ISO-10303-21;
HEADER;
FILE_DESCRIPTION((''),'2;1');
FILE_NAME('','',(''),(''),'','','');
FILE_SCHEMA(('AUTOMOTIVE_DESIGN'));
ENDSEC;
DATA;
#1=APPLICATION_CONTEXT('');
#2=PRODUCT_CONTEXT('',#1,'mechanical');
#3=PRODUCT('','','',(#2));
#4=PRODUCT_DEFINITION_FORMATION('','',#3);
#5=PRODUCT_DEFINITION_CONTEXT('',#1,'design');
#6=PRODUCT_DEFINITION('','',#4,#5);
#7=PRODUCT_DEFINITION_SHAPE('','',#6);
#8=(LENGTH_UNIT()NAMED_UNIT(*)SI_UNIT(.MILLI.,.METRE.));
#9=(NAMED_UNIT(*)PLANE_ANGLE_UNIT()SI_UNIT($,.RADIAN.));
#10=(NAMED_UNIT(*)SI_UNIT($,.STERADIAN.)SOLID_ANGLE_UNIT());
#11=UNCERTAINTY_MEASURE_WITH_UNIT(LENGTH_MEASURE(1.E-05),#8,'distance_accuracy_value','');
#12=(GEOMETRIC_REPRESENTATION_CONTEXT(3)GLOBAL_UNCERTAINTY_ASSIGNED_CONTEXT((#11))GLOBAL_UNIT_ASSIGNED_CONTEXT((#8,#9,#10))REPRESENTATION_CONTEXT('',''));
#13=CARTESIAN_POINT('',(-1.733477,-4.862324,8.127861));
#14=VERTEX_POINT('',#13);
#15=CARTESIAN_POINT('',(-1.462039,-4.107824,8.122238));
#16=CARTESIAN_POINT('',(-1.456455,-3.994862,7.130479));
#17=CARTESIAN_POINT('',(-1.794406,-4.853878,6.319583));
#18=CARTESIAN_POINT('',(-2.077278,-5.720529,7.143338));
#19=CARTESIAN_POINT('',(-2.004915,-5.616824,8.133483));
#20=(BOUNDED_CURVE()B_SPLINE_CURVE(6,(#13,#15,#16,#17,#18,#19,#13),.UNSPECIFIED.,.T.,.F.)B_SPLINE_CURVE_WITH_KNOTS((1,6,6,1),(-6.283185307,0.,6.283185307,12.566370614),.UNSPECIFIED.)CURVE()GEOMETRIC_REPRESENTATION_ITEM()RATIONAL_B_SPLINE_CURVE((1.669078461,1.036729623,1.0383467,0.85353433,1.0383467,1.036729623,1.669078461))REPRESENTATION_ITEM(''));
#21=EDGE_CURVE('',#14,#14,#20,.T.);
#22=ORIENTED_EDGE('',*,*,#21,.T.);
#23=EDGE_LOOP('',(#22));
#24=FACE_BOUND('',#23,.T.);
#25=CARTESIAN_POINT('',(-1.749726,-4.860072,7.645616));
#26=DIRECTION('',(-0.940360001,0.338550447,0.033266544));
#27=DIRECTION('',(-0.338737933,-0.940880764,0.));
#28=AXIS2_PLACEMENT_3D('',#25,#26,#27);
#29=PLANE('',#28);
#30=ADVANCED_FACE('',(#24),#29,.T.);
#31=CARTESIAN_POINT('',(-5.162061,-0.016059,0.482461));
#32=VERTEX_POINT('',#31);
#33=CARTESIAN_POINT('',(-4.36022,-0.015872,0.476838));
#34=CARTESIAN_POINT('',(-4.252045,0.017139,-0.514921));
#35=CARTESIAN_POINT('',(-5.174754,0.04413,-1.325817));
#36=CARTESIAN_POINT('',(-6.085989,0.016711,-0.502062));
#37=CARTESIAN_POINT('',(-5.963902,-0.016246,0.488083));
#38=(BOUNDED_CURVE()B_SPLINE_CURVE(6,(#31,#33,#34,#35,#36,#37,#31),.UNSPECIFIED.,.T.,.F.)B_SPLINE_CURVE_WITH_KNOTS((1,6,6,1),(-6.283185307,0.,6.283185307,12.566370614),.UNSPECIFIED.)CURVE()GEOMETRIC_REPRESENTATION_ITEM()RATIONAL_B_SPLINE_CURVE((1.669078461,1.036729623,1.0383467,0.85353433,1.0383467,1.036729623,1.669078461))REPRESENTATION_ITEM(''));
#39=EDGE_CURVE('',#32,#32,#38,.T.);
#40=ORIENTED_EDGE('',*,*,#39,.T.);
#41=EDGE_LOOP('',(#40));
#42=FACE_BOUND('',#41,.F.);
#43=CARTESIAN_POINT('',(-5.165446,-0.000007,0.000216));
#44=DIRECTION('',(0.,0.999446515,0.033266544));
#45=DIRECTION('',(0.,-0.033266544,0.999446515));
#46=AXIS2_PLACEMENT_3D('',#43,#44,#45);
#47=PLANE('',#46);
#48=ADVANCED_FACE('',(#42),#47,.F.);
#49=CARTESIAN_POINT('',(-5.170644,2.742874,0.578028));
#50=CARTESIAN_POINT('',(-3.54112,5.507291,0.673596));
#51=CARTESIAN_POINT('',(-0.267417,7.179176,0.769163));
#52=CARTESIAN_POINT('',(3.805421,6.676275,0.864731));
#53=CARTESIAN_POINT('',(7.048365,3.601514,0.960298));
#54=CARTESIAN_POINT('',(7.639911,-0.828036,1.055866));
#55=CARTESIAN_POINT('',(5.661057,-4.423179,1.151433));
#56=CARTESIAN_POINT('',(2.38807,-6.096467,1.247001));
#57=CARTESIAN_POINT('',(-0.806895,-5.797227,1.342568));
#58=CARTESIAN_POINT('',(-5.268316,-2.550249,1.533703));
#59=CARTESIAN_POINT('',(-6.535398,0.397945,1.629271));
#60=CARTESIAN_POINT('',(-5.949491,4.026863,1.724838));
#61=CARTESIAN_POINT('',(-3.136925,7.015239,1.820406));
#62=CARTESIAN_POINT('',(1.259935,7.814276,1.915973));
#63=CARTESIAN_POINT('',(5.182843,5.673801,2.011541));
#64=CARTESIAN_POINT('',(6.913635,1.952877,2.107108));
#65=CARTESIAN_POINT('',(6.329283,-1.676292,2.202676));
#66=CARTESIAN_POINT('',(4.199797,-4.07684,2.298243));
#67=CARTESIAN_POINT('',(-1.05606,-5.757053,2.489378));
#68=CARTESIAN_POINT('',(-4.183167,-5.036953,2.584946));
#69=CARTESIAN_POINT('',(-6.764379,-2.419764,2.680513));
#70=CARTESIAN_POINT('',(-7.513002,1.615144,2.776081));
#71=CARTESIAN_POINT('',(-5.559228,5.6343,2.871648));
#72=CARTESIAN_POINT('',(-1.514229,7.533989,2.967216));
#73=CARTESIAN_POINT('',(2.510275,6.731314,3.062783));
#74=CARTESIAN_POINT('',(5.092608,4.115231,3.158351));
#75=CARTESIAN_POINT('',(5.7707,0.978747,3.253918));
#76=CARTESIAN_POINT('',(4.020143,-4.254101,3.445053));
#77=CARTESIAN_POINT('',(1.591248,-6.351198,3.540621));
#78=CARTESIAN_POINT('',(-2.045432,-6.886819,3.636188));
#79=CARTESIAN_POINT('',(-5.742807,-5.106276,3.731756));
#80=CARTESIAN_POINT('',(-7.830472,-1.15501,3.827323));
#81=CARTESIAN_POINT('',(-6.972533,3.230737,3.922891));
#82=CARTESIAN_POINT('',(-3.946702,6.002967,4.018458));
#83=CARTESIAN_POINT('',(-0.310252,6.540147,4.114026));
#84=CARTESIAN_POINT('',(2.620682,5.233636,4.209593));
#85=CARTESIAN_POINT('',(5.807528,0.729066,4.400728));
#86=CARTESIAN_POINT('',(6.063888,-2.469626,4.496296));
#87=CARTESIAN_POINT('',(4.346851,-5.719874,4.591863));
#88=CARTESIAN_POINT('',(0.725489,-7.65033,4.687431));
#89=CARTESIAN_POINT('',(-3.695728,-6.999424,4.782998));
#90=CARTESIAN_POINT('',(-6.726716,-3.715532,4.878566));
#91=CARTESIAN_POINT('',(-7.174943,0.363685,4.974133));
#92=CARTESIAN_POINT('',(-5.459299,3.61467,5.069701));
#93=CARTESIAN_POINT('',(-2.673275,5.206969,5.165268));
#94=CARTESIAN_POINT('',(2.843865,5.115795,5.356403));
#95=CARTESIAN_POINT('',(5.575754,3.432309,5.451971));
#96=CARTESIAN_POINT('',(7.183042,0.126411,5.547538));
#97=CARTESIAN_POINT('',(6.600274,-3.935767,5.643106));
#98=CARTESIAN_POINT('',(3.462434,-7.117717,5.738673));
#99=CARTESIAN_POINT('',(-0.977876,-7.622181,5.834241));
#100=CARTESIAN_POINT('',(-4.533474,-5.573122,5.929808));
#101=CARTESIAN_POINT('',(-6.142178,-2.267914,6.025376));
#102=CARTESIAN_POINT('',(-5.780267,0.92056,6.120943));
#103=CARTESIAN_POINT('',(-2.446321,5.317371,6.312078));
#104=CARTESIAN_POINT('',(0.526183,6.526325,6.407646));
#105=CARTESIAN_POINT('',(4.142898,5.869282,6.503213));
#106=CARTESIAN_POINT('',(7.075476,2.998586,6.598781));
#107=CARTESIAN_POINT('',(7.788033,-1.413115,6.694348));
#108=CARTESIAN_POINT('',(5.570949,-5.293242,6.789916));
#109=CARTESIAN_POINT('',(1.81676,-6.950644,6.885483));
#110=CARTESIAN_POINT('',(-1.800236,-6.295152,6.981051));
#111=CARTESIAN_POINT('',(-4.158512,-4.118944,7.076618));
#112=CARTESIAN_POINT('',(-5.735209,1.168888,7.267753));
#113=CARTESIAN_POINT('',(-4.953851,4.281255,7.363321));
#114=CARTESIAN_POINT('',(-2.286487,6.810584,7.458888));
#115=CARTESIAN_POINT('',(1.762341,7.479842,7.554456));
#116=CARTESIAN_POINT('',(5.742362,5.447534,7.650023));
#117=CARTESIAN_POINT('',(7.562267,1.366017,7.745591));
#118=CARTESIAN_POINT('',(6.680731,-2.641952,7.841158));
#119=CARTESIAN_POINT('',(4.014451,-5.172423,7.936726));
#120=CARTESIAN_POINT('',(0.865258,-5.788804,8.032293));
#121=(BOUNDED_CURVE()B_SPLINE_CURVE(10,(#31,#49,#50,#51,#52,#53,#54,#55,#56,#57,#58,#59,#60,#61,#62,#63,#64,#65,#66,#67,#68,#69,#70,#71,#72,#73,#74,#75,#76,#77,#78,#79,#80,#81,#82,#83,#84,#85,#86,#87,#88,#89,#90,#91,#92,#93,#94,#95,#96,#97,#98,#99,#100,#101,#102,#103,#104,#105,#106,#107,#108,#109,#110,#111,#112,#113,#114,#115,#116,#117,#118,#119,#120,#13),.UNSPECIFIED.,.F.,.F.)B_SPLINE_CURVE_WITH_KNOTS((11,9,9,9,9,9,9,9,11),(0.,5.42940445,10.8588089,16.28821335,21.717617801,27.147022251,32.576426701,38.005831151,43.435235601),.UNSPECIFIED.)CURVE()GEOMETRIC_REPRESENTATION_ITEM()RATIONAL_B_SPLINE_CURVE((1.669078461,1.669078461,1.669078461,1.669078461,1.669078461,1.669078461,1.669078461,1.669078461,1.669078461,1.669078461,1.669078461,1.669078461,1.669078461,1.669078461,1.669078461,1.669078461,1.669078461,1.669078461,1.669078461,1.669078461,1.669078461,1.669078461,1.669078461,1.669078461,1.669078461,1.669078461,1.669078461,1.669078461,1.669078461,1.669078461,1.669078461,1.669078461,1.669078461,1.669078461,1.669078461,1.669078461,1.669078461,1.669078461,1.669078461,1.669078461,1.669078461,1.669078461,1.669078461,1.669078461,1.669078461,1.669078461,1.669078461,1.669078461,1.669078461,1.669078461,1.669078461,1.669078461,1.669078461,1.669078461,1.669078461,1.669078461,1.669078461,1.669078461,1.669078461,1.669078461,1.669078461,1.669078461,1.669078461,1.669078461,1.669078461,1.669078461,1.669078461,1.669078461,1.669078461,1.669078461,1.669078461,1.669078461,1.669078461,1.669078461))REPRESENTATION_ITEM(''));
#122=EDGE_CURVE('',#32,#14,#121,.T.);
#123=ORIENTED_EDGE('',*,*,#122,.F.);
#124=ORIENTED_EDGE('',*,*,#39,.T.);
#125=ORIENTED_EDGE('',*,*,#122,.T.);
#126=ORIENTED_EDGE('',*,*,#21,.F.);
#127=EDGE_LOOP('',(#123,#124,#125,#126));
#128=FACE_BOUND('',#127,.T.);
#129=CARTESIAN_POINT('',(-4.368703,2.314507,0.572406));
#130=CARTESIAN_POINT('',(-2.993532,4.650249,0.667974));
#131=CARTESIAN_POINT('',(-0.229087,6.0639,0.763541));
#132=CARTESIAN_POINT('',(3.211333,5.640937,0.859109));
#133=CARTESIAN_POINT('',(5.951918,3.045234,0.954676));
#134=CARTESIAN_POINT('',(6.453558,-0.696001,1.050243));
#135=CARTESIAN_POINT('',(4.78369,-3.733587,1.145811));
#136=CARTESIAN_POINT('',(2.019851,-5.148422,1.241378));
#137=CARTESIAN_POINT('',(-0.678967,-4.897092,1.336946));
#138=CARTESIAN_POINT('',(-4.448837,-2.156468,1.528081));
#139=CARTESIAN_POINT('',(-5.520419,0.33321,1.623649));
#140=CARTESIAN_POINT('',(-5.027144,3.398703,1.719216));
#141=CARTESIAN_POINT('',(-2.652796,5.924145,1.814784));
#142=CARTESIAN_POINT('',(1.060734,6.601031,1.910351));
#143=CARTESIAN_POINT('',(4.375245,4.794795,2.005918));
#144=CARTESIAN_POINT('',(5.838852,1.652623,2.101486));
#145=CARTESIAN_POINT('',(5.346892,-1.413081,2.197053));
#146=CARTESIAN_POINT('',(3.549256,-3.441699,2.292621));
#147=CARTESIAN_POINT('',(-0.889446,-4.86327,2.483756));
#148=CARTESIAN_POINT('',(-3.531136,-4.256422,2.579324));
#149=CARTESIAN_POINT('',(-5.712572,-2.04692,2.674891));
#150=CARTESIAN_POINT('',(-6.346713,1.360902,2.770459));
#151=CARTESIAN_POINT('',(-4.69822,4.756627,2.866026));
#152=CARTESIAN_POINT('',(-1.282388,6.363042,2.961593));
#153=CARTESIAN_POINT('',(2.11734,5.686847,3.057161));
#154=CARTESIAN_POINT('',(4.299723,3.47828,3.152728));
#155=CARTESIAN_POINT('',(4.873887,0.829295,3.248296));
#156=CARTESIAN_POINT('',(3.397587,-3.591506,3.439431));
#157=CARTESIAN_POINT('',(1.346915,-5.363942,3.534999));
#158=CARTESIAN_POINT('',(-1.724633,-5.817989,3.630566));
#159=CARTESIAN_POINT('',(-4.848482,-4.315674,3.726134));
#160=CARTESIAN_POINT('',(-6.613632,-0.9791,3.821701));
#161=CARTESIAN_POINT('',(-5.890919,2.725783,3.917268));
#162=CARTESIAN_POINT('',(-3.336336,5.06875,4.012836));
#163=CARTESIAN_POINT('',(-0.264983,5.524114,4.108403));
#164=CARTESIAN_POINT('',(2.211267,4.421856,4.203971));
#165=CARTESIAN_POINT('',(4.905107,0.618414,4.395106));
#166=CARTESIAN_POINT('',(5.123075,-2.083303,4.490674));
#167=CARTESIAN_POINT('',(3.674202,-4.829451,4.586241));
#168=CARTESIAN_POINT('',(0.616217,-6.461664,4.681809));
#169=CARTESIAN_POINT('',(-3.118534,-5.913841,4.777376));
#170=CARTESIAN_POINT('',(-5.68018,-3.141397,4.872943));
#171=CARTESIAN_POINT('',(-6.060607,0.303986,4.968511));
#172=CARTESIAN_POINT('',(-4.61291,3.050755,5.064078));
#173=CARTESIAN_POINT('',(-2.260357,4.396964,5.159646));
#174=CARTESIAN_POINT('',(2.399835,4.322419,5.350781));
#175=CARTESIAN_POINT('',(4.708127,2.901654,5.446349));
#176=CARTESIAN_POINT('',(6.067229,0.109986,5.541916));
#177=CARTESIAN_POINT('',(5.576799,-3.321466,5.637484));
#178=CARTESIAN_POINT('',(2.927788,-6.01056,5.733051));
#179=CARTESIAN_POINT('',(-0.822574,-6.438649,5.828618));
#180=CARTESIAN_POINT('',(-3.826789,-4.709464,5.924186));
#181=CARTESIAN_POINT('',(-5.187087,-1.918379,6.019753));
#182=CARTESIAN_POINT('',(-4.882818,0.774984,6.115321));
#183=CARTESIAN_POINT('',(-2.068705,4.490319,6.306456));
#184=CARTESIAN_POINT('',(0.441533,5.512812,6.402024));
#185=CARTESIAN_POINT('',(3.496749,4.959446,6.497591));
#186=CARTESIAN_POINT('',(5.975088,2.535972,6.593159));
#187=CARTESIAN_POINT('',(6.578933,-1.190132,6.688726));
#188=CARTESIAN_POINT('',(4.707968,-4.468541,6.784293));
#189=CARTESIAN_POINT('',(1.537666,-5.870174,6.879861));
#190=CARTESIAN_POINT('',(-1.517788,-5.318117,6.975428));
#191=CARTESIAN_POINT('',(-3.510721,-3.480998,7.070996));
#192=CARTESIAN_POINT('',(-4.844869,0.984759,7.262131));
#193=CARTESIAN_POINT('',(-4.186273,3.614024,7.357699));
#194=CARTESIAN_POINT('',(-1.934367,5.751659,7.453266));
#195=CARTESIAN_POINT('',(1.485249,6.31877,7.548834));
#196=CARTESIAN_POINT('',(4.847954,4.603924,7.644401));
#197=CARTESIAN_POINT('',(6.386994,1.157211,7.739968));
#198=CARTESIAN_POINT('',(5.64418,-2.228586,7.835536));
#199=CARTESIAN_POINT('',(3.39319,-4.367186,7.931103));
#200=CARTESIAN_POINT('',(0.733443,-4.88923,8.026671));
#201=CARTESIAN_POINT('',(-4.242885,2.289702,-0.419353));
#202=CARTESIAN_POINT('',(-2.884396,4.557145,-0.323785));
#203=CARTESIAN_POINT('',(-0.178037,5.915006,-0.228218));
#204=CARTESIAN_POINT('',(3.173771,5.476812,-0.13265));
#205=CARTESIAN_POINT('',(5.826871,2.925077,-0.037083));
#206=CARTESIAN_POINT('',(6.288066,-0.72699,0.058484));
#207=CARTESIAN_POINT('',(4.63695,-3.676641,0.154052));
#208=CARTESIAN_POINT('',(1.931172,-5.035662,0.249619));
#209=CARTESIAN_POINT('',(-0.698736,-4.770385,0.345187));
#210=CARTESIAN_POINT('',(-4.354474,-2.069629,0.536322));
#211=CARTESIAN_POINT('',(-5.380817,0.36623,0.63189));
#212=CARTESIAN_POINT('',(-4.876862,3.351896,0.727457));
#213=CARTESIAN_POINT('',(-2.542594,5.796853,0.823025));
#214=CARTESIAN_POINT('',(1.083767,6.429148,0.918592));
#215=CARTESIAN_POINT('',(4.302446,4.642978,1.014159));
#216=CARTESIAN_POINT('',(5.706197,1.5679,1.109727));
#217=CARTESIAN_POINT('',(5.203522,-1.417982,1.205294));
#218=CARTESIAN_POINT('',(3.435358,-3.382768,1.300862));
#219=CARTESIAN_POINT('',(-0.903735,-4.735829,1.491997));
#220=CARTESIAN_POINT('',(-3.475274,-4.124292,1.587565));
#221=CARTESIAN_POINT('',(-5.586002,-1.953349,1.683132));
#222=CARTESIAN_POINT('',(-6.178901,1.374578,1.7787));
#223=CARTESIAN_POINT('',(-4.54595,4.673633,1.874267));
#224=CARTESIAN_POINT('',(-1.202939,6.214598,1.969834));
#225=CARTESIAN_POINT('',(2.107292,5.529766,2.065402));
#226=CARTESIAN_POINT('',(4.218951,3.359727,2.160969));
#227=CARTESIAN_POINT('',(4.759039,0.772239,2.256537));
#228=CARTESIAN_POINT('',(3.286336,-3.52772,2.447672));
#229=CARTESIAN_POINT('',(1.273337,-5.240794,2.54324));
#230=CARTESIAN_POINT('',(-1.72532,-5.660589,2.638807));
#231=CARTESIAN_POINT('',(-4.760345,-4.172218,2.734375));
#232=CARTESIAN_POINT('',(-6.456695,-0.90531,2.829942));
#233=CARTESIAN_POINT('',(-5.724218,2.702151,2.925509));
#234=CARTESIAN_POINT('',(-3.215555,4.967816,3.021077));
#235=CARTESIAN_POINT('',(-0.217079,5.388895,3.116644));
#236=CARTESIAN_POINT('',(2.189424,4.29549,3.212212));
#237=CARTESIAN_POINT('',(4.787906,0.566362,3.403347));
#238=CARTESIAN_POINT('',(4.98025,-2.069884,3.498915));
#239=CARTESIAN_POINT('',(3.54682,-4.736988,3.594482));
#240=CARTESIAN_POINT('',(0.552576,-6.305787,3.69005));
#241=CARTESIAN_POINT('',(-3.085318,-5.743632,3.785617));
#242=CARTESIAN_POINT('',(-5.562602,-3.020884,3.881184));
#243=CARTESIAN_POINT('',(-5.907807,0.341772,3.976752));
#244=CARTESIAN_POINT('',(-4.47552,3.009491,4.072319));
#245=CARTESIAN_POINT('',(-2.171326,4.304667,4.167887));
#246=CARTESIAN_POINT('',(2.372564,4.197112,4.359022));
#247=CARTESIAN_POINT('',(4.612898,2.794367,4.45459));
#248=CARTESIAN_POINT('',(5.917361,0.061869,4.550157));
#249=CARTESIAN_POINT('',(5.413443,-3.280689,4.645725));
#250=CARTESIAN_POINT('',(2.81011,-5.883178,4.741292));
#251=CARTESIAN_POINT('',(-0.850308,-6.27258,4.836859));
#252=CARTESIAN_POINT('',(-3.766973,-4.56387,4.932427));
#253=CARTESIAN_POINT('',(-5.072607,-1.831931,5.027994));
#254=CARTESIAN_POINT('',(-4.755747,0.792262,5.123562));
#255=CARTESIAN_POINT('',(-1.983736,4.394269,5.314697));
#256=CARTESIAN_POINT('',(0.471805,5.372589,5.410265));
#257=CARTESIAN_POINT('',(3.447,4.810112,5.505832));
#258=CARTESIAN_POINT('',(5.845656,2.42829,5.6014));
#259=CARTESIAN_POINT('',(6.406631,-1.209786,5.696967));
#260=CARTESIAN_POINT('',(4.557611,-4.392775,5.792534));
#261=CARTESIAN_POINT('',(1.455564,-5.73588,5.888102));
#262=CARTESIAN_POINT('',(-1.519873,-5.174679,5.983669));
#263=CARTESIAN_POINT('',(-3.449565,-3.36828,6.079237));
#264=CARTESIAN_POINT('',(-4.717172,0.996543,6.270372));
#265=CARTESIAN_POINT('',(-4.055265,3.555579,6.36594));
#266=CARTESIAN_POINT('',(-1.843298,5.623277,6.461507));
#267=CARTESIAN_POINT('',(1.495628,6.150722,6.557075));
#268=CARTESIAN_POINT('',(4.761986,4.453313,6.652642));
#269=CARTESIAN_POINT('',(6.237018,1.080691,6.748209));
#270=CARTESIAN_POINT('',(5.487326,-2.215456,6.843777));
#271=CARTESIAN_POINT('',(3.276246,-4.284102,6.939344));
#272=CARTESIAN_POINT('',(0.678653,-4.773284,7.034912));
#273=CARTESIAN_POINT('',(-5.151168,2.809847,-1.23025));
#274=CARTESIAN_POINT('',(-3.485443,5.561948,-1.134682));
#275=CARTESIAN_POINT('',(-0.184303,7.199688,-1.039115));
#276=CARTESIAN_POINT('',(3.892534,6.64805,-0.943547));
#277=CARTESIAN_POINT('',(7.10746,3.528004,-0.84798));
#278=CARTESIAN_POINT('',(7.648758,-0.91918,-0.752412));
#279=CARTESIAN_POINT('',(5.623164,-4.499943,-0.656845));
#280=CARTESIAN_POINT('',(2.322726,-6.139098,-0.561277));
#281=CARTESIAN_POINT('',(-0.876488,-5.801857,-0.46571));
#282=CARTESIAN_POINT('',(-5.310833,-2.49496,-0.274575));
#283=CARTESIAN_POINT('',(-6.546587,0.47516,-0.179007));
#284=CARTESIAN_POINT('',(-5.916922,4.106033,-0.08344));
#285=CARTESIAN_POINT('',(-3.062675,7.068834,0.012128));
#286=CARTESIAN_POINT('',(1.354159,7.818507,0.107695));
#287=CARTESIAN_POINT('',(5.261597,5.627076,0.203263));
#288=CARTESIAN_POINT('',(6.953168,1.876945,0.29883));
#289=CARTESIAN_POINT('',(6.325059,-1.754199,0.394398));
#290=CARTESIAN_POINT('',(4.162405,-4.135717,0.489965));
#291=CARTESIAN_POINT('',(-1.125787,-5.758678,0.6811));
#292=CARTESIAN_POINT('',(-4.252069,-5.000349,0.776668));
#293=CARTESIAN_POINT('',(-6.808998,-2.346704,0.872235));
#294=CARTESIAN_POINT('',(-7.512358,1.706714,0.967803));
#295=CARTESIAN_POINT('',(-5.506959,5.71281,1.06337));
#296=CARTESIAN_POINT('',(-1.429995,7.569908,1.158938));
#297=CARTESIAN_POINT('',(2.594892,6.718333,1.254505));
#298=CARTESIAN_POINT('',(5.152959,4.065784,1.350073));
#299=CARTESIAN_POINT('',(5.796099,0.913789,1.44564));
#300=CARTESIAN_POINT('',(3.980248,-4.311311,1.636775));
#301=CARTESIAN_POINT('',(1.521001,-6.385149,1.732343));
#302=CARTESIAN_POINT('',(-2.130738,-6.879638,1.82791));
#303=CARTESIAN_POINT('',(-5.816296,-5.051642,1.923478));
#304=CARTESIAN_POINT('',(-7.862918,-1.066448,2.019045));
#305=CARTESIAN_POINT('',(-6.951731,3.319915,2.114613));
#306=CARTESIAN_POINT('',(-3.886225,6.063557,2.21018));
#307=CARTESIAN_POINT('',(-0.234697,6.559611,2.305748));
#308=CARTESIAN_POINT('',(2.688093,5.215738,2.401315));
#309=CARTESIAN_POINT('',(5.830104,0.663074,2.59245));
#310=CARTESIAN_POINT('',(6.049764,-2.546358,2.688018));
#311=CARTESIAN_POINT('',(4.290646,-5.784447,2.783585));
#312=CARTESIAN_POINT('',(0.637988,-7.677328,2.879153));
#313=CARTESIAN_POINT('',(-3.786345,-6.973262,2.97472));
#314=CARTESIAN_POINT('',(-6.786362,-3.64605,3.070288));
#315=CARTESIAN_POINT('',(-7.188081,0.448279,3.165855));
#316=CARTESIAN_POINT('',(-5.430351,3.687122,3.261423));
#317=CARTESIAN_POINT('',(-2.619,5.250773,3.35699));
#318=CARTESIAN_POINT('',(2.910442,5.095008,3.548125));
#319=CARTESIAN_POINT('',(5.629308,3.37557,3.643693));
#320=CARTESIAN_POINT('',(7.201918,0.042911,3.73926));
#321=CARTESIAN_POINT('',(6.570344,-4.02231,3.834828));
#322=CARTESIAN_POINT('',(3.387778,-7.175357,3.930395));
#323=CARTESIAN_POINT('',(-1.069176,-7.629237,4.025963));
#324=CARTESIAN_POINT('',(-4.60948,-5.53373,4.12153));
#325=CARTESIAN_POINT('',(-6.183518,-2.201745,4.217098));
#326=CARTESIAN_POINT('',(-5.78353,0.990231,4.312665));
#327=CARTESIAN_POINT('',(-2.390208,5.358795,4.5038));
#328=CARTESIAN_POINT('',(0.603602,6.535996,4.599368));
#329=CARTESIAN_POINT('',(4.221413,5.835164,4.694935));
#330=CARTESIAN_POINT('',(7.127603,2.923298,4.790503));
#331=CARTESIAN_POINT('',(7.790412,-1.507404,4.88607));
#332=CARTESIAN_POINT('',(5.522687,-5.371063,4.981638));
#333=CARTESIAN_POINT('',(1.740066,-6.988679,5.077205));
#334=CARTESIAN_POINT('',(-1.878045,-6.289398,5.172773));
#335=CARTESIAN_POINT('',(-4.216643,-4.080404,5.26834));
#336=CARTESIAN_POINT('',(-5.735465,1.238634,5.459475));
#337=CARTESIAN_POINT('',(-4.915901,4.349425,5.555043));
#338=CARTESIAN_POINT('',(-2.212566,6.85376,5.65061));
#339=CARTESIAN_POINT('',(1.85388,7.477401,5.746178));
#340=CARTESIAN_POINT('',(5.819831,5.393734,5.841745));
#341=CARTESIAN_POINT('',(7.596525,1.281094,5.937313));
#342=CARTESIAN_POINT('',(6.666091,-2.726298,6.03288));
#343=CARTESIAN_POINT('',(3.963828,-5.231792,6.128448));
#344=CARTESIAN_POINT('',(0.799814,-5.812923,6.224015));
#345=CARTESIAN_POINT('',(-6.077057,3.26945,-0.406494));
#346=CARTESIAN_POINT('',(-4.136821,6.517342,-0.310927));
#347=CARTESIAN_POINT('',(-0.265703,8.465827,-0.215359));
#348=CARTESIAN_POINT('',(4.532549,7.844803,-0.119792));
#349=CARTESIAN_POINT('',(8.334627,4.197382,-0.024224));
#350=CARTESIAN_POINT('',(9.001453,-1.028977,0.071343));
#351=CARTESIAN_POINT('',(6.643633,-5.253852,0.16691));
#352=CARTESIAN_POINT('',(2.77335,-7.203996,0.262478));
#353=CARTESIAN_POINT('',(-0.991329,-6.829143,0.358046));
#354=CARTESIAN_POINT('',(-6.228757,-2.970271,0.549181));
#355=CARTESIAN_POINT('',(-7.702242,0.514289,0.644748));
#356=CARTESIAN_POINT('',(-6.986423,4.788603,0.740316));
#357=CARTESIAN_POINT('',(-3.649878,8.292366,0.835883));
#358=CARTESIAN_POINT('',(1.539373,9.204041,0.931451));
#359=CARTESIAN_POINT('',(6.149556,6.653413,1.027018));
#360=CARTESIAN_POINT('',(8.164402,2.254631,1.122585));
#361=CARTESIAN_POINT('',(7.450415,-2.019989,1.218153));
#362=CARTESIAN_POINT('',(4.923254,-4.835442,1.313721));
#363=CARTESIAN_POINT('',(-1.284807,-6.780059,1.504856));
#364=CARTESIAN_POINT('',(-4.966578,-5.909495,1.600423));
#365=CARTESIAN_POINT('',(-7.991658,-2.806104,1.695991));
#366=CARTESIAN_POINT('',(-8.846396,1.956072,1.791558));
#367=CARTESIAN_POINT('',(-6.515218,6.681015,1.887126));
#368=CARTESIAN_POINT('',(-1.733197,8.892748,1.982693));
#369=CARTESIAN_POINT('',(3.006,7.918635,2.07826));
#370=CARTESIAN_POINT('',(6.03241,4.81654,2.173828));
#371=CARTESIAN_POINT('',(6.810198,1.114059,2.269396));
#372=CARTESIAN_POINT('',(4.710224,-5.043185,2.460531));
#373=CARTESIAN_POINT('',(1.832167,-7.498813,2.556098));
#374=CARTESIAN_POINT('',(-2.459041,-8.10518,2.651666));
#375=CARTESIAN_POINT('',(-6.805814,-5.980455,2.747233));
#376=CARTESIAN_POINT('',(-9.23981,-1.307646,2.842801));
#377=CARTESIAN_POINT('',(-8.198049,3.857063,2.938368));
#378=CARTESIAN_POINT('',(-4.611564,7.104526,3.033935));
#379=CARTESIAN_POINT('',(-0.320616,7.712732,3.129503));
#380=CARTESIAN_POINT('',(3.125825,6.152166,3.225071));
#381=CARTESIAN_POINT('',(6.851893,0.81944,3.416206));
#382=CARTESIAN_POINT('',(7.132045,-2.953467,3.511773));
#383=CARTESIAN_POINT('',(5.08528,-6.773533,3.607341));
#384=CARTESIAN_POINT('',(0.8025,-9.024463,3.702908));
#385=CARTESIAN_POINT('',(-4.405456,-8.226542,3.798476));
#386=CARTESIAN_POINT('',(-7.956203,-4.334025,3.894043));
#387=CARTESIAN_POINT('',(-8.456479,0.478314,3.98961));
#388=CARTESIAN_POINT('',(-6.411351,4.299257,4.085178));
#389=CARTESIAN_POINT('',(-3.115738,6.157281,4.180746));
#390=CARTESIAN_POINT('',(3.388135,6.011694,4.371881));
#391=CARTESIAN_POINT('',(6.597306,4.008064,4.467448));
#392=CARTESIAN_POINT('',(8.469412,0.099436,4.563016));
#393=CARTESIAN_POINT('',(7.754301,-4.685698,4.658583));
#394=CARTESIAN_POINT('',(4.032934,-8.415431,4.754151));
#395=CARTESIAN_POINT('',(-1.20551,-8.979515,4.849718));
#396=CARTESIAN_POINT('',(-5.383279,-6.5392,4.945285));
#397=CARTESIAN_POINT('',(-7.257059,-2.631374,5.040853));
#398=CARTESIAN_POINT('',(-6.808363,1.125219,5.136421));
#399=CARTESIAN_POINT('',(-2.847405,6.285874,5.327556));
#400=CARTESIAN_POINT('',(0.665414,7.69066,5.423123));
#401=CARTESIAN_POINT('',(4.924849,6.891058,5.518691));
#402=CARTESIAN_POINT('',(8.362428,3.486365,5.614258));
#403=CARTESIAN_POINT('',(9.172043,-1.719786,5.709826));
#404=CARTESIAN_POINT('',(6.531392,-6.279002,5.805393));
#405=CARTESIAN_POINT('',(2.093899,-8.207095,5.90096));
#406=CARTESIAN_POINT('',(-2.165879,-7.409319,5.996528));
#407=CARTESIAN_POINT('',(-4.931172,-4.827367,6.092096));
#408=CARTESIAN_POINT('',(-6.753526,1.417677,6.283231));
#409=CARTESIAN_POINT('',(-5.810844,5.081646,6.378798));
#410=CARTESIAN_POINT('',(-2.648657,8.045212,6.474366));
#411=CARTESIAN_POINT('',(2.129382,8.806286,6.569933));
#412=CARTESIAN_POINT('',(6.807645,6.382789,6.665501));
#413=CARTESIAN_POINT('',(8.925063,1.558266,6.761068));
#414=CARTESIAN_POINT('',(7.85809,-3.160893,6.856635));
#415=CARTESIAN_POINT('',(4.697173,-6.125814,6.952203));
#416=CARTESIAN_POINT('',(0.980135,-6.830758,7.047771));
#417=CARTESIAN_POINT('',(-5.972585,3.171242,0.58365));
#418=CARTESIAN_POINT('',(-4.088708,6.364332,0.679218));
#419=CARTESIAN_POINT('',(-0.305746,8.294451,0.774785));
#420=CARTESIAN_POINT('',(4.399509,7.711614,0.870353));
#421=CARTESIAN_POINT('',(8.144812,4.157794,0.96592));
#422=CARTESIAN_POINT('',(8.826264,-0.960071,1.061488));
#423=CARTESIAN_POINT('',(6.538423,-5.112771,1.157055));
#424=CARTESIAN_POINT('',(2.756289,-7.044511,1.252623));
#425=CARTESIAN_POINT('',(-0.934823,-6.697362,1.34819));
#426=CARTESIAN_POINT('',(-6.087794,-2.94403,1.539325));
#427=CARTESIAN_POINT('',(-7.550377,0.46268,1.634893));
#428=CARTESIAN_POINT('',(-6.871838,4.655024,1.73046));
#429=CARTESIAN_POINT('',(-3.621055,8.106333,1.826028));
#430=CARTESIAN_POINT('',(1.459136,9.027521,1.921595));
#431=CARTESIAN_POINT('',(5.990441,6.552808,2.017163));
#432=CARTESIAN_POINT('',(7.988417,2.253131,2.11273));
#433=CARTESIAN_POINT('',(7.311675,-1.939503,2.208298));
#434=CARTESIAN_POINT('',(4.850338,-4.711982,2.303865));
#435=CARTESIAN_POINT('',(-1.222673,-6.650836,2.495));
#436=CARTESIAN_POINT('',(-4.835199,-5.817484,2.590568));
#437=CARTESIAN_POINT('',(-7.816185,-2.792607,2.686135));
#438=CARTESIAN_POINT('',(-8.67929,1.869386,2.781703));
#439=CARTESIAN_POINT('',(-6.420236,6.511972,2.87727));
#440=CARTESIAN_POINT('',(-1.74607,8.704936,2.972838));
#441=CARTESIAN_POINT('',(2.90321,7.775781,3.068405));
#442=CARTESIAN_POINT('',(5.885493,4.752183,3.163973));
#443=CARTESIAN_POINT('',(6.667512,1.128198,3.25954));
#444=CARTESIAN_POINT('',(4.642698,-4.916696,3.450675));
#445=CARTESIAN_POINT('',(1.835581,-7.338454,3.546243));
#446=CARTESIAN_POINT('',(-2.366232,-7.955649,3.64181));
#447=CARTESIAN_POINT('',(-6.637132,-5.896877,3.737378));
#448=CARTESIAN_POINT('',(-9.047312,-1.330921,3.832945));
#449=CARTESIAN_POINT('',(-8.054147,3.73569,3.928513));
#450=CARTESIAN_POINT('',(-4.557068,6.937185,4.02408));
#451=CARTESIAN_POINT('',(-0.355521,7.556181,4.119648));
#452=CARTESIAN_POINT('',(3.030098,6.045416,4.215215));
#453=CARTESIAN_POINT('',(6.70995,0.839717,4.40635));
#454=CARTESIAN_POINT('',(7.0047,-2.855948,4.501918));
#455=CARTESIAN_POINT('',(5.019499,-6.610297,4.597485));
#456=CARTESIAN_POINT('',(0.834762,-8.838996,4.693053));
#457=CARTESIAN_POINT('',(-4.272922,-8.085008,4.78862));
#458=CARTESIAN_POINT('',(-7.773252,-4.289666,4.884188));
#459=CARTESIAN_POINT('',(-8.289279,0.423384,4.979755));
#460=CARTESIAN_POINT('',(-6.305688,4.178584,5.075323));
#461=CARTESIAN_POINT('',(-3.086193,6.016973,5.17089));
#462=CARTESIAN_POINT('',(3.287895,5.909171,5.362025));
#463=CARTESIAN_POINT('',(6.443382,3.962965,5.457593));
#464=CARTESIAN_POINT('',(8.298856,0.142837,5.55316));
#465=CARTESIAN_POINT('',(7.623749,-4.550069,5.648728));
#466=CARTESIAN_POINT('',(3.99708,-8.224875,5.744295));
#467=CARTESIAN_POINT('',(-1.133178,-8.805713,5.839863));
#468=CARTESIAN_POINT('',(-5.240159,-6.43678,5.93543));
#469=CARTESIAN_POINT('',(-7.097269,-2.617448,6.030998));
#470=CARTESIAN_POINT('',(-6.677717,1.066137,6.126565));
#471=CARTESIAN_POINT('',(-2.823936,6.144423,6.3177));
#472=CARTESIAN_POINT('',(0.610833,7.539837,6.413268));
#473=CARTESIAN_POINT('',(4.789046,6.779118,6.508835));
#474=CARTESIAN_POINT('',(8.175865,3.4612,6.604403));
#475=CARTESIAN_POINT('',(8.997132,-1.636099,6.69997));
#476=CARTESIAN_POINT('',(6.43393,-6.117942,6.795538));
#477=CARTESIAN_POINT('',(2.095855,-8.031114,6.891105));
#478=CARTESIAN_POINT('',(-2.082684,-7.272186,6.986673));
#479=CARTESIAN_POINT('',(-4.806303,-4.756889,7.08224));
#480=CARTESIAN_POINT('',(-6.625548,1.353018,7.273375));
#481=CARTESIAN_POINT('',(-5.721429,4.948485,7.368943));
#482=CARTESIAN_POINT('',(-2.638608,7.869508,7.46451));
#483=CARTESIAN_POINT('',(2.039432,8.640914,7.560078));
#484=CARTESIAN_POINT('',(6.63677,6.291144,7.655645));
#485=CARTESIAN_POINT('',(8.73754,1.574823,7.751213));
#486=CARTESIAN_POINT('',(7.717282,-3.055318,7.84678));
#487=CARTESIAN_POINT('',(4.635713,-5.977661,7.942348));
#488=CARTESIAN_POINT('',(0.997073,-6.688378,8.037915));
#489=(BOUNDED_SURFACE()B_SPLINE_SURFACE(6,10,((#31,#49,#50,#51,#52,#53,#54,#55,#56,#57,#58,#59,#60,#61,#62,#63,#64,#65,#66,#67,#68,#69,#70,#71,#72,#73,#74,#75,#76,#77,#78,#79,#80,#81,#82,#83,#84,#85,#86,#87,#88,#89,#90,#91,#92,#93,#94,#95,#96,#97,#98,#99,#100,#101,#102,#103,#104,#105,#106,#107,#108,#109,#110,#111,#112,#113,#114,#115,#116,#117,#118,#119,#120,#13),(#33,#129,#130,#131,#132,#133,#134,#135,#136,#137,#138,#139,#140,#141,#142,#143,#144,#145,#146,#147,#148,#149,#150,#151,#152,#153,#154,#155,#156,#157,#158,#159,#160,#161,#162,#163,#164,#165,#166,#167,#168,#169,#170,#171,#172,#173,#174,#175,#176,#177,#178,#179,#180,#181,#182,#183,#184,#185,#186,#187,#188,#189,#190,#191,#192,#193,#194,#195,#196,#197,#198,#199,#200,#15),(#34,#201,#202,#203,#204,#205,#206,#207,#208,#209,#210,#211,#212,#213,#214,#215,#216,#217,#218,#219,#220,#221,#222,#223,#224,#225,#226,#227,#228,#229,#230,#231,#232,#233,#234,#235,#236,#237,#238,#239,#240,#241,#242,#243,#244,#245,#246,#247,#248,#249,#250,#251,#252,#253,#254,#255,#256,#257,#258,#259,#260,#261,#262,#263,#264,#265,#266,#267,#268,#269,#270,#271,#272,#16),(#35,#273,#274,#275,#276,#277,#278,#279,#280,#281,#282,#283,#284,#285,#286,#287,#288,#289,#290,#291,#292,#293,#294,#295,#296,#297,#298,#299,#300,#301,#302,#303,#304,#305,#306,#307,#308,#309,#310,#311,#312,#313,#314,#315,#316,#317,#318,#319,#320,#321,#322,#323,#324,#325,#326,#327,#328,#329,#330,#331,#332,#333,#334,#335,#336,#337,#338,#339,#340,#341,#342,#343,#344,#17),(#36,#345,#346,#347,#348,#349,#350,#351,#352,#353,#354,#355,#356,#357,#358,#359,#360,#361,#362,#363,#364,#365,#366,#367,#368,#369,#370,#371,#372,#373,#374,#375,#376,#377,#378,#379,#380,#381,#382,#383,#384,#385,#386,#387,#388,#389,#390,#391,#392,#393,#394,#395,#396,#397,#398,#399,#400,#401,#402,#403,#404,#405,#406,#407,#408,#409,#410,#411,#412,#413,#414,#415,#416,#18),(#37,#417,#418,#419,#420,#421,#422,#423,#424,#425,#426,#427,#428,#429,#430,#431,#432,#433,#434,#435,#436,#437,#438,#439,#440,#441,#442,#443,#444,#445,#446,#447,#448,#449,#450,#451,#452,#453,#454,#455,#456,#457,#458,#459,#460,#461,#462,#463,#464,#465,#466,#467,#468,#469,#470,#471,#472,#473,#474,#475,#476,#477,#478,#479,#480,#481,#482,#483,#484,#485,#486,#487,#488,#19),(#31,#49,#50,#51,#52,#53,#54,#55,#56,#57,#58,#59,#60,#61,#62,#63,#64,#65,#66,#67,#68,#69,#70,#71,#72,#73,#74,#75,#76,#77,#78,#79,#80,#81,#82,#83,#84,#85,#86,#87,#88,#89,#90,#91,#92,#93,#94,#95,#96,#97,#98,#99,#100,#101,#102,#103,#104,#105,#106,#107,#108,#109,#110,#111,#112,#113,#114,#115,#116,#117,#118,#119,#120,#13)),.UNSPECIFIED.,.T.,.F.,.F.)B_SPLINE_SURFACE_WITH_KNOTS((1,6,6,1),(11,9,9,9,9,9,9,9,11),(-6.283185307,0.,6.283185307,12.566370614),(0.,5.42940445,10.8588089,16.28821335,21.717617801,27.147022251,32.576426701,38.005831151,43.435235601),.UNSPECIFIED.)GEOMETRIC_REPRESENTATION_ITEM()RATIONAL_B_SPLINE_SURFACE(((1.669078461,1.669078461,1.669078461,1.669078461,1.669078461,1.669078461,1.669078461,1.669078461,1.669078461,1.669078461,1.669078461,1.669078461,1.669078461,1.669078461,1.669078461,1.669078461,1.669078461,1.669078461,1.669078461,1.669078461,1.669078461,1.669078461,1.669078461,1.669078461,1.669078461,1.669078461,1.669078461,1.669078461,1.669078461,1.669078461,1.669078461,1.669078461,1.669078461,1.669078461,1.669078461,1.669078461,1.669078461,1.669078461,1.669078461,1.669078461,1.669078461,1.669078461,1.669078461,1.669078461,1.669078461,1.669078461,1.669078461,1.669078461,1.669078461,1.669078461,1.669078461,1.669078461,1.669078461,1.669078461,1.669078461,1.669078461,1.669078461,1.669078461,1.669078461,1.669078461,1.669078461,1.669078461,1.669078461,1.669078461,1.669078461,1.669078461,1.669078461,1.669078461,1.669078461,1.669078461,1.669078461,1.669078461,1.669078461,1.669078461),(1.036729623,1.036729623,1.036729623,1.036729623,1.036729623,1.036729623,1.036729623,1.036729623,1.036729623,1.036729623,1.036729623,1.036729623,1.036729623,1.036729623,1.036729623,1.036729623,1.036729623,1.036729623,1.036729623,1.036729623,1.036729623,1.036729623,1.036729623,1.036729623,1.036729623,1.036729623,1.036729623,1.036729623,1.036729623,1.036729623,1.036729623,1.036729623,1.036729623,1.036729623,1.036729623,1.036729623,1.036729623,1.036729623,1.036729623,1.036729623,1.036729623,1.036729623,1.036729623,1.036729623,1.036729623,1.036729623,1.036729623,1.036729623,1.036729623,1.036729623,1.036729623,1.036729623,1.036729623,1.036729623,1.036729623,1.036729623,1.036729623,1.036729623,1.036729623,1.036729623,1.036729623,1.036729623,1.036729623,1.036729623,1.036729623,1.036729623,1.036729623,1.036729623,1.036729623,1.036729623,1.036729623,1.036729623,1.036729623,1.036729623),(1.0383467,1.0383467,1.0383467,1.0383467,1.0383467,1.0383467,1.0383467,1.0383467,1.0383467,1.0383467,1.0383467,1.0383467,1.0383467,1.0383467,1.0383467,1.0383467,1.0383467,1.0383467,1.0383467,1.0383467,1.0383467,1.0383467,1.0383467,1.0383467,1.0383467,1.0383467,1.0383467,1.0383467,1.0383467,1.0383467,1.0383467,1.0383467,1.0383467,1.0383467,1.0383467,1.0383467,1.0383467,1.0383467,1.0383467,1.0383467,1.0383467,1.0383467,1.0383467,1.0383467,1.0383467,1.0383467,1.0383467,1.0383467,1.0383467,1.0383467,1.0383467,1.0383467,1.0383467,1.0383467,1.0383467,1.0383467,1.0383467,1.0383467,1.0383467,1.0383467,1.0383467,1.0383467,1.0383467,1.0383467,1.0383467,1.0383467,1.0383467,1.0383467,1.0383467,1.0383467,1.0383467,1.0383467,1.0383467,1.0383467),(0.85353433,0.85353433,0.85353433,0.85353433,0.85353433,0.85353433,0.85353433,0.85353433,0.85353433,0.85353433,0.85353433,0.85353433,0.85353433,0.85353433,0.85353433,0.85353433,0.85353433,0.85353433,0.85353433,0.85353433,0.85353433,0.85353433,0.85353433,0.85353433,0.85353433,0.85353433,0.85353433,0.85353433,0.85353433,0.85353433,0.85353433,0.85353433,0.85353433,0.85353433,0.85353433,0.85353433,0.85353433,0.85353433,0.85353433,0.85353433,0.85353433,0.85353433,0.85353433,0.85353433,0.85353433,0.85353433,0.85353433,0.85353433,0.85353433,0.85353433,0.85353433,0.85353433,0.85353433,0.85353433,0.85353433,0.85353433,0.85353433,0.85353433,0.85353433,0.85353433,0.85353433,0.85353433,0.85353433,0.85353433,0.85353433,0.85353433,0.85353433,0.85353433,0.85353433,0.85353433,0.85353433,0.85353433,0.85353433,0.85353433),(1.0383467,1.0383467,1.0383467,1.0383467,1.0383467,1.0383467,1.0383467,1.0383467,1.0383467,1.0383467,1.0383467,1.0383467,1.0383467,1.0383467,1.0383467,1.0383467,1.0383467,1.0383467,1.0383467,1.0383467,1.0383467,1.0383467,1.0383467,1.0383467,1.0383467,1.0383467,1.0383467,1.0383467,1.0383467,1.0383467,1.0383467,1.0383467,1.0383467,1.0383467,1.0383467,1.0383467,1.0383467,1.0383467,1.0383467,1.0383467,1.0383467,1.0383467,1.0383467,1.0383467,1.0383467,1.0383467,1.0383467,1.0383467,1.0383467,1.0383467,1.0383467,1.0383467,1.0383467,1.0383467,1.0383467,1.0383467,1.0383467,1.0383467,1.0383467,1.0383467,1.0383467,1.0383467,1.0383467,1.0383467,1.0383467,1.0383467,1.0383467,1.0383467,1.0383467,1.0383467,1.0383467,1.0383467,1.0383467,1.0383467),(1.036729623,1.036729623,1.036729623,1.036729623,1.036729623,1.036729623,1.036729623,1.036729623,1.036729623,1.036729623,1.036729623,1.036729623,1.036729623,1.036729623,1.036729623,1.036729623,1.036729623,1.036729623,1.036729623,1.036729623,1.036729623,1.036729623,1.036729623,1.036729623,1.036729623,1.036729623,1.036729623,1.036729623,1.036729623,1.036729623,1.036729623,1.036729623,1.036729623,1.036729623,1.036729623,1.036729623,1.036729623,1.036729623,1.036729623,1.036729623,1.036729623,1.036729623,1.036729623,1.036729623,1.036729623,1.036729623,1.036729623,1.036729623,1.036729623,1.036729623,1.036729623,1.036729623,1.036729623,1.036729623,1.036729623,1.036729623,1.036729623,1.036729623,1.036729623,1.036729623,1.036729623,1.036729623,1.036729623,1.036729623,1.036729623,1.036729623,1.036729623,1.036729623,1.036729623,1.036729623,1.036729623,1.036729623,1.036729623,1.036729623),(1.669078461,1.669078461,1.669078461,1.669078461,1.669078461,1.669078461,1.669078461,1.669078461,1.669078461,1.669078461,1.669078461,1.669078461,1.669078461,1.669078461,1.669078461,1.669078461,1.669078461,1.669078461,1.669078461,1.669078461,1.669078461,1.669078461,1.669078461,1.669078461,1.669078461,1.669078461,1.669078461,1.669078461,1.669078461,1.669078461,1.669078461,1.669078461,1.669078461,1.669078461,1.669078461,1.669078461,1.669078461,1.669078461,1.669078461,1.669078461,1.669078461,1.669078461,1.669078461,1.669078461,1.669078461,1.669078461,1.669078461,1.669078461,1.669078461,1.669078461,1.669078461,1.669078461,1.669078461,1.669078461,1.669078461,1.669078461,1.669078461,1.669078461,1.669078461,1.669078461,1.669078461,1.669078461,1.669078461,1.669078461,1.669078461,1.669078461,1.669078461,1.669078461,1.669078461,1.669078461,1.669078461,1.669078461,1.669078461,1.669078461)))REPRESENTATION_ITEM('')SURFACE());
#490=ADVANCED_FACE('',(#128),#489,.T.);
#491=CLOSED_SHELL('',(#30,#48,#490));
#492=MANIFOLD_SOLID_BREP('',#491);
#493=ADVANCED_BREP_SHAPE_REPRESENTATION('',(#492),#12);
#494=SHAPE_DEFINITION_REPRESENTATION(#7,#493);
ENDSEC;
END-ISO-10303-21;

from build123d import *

# Parameters (mm, degrees)
SWEEP1_PITCH       = 1.123497428
SWEEP1_HEIGHT      = 7.6454
SWEEP1_RADIUS      = 5.3721
SWEEP1_START_ANGLE = -180
SKETCH2_R          = 0.4826


with BuildPart() as part:
    # Sweep1: sweep along a helix
    with BuildLine() as sweep1_path:
        add(Helix(SWEEP1_PITCH, SWEEP1_HEIGHT, SWEEP1_RADIUS, center=(0, 0, 0), direction=(0, 0, 1), lefthand=True, mode=Mode.PRIVATE).rotate(Axis((0, 0, 0), (0, 0, 1)), SWEEP1_START_ANGLE))
    # Sketch2 → Sweep1 (sweep)
    with BuildSketch(Plane(origin=(-1.819733981, -5.054505579, 7.6454), x_dir=(0.03367539440418623, -0.004667898869402006, 0.9994219221789503), z_dir=(-0.9403600058959825, 0.33855043400790064, 0.03326654391983417))):
        with Locations((0.001589314, 0.206647084)):
            Circle(SKETCH2_R)
    sweep(path=sweep1_path.line, is_frenet=True)


solid = part.part
